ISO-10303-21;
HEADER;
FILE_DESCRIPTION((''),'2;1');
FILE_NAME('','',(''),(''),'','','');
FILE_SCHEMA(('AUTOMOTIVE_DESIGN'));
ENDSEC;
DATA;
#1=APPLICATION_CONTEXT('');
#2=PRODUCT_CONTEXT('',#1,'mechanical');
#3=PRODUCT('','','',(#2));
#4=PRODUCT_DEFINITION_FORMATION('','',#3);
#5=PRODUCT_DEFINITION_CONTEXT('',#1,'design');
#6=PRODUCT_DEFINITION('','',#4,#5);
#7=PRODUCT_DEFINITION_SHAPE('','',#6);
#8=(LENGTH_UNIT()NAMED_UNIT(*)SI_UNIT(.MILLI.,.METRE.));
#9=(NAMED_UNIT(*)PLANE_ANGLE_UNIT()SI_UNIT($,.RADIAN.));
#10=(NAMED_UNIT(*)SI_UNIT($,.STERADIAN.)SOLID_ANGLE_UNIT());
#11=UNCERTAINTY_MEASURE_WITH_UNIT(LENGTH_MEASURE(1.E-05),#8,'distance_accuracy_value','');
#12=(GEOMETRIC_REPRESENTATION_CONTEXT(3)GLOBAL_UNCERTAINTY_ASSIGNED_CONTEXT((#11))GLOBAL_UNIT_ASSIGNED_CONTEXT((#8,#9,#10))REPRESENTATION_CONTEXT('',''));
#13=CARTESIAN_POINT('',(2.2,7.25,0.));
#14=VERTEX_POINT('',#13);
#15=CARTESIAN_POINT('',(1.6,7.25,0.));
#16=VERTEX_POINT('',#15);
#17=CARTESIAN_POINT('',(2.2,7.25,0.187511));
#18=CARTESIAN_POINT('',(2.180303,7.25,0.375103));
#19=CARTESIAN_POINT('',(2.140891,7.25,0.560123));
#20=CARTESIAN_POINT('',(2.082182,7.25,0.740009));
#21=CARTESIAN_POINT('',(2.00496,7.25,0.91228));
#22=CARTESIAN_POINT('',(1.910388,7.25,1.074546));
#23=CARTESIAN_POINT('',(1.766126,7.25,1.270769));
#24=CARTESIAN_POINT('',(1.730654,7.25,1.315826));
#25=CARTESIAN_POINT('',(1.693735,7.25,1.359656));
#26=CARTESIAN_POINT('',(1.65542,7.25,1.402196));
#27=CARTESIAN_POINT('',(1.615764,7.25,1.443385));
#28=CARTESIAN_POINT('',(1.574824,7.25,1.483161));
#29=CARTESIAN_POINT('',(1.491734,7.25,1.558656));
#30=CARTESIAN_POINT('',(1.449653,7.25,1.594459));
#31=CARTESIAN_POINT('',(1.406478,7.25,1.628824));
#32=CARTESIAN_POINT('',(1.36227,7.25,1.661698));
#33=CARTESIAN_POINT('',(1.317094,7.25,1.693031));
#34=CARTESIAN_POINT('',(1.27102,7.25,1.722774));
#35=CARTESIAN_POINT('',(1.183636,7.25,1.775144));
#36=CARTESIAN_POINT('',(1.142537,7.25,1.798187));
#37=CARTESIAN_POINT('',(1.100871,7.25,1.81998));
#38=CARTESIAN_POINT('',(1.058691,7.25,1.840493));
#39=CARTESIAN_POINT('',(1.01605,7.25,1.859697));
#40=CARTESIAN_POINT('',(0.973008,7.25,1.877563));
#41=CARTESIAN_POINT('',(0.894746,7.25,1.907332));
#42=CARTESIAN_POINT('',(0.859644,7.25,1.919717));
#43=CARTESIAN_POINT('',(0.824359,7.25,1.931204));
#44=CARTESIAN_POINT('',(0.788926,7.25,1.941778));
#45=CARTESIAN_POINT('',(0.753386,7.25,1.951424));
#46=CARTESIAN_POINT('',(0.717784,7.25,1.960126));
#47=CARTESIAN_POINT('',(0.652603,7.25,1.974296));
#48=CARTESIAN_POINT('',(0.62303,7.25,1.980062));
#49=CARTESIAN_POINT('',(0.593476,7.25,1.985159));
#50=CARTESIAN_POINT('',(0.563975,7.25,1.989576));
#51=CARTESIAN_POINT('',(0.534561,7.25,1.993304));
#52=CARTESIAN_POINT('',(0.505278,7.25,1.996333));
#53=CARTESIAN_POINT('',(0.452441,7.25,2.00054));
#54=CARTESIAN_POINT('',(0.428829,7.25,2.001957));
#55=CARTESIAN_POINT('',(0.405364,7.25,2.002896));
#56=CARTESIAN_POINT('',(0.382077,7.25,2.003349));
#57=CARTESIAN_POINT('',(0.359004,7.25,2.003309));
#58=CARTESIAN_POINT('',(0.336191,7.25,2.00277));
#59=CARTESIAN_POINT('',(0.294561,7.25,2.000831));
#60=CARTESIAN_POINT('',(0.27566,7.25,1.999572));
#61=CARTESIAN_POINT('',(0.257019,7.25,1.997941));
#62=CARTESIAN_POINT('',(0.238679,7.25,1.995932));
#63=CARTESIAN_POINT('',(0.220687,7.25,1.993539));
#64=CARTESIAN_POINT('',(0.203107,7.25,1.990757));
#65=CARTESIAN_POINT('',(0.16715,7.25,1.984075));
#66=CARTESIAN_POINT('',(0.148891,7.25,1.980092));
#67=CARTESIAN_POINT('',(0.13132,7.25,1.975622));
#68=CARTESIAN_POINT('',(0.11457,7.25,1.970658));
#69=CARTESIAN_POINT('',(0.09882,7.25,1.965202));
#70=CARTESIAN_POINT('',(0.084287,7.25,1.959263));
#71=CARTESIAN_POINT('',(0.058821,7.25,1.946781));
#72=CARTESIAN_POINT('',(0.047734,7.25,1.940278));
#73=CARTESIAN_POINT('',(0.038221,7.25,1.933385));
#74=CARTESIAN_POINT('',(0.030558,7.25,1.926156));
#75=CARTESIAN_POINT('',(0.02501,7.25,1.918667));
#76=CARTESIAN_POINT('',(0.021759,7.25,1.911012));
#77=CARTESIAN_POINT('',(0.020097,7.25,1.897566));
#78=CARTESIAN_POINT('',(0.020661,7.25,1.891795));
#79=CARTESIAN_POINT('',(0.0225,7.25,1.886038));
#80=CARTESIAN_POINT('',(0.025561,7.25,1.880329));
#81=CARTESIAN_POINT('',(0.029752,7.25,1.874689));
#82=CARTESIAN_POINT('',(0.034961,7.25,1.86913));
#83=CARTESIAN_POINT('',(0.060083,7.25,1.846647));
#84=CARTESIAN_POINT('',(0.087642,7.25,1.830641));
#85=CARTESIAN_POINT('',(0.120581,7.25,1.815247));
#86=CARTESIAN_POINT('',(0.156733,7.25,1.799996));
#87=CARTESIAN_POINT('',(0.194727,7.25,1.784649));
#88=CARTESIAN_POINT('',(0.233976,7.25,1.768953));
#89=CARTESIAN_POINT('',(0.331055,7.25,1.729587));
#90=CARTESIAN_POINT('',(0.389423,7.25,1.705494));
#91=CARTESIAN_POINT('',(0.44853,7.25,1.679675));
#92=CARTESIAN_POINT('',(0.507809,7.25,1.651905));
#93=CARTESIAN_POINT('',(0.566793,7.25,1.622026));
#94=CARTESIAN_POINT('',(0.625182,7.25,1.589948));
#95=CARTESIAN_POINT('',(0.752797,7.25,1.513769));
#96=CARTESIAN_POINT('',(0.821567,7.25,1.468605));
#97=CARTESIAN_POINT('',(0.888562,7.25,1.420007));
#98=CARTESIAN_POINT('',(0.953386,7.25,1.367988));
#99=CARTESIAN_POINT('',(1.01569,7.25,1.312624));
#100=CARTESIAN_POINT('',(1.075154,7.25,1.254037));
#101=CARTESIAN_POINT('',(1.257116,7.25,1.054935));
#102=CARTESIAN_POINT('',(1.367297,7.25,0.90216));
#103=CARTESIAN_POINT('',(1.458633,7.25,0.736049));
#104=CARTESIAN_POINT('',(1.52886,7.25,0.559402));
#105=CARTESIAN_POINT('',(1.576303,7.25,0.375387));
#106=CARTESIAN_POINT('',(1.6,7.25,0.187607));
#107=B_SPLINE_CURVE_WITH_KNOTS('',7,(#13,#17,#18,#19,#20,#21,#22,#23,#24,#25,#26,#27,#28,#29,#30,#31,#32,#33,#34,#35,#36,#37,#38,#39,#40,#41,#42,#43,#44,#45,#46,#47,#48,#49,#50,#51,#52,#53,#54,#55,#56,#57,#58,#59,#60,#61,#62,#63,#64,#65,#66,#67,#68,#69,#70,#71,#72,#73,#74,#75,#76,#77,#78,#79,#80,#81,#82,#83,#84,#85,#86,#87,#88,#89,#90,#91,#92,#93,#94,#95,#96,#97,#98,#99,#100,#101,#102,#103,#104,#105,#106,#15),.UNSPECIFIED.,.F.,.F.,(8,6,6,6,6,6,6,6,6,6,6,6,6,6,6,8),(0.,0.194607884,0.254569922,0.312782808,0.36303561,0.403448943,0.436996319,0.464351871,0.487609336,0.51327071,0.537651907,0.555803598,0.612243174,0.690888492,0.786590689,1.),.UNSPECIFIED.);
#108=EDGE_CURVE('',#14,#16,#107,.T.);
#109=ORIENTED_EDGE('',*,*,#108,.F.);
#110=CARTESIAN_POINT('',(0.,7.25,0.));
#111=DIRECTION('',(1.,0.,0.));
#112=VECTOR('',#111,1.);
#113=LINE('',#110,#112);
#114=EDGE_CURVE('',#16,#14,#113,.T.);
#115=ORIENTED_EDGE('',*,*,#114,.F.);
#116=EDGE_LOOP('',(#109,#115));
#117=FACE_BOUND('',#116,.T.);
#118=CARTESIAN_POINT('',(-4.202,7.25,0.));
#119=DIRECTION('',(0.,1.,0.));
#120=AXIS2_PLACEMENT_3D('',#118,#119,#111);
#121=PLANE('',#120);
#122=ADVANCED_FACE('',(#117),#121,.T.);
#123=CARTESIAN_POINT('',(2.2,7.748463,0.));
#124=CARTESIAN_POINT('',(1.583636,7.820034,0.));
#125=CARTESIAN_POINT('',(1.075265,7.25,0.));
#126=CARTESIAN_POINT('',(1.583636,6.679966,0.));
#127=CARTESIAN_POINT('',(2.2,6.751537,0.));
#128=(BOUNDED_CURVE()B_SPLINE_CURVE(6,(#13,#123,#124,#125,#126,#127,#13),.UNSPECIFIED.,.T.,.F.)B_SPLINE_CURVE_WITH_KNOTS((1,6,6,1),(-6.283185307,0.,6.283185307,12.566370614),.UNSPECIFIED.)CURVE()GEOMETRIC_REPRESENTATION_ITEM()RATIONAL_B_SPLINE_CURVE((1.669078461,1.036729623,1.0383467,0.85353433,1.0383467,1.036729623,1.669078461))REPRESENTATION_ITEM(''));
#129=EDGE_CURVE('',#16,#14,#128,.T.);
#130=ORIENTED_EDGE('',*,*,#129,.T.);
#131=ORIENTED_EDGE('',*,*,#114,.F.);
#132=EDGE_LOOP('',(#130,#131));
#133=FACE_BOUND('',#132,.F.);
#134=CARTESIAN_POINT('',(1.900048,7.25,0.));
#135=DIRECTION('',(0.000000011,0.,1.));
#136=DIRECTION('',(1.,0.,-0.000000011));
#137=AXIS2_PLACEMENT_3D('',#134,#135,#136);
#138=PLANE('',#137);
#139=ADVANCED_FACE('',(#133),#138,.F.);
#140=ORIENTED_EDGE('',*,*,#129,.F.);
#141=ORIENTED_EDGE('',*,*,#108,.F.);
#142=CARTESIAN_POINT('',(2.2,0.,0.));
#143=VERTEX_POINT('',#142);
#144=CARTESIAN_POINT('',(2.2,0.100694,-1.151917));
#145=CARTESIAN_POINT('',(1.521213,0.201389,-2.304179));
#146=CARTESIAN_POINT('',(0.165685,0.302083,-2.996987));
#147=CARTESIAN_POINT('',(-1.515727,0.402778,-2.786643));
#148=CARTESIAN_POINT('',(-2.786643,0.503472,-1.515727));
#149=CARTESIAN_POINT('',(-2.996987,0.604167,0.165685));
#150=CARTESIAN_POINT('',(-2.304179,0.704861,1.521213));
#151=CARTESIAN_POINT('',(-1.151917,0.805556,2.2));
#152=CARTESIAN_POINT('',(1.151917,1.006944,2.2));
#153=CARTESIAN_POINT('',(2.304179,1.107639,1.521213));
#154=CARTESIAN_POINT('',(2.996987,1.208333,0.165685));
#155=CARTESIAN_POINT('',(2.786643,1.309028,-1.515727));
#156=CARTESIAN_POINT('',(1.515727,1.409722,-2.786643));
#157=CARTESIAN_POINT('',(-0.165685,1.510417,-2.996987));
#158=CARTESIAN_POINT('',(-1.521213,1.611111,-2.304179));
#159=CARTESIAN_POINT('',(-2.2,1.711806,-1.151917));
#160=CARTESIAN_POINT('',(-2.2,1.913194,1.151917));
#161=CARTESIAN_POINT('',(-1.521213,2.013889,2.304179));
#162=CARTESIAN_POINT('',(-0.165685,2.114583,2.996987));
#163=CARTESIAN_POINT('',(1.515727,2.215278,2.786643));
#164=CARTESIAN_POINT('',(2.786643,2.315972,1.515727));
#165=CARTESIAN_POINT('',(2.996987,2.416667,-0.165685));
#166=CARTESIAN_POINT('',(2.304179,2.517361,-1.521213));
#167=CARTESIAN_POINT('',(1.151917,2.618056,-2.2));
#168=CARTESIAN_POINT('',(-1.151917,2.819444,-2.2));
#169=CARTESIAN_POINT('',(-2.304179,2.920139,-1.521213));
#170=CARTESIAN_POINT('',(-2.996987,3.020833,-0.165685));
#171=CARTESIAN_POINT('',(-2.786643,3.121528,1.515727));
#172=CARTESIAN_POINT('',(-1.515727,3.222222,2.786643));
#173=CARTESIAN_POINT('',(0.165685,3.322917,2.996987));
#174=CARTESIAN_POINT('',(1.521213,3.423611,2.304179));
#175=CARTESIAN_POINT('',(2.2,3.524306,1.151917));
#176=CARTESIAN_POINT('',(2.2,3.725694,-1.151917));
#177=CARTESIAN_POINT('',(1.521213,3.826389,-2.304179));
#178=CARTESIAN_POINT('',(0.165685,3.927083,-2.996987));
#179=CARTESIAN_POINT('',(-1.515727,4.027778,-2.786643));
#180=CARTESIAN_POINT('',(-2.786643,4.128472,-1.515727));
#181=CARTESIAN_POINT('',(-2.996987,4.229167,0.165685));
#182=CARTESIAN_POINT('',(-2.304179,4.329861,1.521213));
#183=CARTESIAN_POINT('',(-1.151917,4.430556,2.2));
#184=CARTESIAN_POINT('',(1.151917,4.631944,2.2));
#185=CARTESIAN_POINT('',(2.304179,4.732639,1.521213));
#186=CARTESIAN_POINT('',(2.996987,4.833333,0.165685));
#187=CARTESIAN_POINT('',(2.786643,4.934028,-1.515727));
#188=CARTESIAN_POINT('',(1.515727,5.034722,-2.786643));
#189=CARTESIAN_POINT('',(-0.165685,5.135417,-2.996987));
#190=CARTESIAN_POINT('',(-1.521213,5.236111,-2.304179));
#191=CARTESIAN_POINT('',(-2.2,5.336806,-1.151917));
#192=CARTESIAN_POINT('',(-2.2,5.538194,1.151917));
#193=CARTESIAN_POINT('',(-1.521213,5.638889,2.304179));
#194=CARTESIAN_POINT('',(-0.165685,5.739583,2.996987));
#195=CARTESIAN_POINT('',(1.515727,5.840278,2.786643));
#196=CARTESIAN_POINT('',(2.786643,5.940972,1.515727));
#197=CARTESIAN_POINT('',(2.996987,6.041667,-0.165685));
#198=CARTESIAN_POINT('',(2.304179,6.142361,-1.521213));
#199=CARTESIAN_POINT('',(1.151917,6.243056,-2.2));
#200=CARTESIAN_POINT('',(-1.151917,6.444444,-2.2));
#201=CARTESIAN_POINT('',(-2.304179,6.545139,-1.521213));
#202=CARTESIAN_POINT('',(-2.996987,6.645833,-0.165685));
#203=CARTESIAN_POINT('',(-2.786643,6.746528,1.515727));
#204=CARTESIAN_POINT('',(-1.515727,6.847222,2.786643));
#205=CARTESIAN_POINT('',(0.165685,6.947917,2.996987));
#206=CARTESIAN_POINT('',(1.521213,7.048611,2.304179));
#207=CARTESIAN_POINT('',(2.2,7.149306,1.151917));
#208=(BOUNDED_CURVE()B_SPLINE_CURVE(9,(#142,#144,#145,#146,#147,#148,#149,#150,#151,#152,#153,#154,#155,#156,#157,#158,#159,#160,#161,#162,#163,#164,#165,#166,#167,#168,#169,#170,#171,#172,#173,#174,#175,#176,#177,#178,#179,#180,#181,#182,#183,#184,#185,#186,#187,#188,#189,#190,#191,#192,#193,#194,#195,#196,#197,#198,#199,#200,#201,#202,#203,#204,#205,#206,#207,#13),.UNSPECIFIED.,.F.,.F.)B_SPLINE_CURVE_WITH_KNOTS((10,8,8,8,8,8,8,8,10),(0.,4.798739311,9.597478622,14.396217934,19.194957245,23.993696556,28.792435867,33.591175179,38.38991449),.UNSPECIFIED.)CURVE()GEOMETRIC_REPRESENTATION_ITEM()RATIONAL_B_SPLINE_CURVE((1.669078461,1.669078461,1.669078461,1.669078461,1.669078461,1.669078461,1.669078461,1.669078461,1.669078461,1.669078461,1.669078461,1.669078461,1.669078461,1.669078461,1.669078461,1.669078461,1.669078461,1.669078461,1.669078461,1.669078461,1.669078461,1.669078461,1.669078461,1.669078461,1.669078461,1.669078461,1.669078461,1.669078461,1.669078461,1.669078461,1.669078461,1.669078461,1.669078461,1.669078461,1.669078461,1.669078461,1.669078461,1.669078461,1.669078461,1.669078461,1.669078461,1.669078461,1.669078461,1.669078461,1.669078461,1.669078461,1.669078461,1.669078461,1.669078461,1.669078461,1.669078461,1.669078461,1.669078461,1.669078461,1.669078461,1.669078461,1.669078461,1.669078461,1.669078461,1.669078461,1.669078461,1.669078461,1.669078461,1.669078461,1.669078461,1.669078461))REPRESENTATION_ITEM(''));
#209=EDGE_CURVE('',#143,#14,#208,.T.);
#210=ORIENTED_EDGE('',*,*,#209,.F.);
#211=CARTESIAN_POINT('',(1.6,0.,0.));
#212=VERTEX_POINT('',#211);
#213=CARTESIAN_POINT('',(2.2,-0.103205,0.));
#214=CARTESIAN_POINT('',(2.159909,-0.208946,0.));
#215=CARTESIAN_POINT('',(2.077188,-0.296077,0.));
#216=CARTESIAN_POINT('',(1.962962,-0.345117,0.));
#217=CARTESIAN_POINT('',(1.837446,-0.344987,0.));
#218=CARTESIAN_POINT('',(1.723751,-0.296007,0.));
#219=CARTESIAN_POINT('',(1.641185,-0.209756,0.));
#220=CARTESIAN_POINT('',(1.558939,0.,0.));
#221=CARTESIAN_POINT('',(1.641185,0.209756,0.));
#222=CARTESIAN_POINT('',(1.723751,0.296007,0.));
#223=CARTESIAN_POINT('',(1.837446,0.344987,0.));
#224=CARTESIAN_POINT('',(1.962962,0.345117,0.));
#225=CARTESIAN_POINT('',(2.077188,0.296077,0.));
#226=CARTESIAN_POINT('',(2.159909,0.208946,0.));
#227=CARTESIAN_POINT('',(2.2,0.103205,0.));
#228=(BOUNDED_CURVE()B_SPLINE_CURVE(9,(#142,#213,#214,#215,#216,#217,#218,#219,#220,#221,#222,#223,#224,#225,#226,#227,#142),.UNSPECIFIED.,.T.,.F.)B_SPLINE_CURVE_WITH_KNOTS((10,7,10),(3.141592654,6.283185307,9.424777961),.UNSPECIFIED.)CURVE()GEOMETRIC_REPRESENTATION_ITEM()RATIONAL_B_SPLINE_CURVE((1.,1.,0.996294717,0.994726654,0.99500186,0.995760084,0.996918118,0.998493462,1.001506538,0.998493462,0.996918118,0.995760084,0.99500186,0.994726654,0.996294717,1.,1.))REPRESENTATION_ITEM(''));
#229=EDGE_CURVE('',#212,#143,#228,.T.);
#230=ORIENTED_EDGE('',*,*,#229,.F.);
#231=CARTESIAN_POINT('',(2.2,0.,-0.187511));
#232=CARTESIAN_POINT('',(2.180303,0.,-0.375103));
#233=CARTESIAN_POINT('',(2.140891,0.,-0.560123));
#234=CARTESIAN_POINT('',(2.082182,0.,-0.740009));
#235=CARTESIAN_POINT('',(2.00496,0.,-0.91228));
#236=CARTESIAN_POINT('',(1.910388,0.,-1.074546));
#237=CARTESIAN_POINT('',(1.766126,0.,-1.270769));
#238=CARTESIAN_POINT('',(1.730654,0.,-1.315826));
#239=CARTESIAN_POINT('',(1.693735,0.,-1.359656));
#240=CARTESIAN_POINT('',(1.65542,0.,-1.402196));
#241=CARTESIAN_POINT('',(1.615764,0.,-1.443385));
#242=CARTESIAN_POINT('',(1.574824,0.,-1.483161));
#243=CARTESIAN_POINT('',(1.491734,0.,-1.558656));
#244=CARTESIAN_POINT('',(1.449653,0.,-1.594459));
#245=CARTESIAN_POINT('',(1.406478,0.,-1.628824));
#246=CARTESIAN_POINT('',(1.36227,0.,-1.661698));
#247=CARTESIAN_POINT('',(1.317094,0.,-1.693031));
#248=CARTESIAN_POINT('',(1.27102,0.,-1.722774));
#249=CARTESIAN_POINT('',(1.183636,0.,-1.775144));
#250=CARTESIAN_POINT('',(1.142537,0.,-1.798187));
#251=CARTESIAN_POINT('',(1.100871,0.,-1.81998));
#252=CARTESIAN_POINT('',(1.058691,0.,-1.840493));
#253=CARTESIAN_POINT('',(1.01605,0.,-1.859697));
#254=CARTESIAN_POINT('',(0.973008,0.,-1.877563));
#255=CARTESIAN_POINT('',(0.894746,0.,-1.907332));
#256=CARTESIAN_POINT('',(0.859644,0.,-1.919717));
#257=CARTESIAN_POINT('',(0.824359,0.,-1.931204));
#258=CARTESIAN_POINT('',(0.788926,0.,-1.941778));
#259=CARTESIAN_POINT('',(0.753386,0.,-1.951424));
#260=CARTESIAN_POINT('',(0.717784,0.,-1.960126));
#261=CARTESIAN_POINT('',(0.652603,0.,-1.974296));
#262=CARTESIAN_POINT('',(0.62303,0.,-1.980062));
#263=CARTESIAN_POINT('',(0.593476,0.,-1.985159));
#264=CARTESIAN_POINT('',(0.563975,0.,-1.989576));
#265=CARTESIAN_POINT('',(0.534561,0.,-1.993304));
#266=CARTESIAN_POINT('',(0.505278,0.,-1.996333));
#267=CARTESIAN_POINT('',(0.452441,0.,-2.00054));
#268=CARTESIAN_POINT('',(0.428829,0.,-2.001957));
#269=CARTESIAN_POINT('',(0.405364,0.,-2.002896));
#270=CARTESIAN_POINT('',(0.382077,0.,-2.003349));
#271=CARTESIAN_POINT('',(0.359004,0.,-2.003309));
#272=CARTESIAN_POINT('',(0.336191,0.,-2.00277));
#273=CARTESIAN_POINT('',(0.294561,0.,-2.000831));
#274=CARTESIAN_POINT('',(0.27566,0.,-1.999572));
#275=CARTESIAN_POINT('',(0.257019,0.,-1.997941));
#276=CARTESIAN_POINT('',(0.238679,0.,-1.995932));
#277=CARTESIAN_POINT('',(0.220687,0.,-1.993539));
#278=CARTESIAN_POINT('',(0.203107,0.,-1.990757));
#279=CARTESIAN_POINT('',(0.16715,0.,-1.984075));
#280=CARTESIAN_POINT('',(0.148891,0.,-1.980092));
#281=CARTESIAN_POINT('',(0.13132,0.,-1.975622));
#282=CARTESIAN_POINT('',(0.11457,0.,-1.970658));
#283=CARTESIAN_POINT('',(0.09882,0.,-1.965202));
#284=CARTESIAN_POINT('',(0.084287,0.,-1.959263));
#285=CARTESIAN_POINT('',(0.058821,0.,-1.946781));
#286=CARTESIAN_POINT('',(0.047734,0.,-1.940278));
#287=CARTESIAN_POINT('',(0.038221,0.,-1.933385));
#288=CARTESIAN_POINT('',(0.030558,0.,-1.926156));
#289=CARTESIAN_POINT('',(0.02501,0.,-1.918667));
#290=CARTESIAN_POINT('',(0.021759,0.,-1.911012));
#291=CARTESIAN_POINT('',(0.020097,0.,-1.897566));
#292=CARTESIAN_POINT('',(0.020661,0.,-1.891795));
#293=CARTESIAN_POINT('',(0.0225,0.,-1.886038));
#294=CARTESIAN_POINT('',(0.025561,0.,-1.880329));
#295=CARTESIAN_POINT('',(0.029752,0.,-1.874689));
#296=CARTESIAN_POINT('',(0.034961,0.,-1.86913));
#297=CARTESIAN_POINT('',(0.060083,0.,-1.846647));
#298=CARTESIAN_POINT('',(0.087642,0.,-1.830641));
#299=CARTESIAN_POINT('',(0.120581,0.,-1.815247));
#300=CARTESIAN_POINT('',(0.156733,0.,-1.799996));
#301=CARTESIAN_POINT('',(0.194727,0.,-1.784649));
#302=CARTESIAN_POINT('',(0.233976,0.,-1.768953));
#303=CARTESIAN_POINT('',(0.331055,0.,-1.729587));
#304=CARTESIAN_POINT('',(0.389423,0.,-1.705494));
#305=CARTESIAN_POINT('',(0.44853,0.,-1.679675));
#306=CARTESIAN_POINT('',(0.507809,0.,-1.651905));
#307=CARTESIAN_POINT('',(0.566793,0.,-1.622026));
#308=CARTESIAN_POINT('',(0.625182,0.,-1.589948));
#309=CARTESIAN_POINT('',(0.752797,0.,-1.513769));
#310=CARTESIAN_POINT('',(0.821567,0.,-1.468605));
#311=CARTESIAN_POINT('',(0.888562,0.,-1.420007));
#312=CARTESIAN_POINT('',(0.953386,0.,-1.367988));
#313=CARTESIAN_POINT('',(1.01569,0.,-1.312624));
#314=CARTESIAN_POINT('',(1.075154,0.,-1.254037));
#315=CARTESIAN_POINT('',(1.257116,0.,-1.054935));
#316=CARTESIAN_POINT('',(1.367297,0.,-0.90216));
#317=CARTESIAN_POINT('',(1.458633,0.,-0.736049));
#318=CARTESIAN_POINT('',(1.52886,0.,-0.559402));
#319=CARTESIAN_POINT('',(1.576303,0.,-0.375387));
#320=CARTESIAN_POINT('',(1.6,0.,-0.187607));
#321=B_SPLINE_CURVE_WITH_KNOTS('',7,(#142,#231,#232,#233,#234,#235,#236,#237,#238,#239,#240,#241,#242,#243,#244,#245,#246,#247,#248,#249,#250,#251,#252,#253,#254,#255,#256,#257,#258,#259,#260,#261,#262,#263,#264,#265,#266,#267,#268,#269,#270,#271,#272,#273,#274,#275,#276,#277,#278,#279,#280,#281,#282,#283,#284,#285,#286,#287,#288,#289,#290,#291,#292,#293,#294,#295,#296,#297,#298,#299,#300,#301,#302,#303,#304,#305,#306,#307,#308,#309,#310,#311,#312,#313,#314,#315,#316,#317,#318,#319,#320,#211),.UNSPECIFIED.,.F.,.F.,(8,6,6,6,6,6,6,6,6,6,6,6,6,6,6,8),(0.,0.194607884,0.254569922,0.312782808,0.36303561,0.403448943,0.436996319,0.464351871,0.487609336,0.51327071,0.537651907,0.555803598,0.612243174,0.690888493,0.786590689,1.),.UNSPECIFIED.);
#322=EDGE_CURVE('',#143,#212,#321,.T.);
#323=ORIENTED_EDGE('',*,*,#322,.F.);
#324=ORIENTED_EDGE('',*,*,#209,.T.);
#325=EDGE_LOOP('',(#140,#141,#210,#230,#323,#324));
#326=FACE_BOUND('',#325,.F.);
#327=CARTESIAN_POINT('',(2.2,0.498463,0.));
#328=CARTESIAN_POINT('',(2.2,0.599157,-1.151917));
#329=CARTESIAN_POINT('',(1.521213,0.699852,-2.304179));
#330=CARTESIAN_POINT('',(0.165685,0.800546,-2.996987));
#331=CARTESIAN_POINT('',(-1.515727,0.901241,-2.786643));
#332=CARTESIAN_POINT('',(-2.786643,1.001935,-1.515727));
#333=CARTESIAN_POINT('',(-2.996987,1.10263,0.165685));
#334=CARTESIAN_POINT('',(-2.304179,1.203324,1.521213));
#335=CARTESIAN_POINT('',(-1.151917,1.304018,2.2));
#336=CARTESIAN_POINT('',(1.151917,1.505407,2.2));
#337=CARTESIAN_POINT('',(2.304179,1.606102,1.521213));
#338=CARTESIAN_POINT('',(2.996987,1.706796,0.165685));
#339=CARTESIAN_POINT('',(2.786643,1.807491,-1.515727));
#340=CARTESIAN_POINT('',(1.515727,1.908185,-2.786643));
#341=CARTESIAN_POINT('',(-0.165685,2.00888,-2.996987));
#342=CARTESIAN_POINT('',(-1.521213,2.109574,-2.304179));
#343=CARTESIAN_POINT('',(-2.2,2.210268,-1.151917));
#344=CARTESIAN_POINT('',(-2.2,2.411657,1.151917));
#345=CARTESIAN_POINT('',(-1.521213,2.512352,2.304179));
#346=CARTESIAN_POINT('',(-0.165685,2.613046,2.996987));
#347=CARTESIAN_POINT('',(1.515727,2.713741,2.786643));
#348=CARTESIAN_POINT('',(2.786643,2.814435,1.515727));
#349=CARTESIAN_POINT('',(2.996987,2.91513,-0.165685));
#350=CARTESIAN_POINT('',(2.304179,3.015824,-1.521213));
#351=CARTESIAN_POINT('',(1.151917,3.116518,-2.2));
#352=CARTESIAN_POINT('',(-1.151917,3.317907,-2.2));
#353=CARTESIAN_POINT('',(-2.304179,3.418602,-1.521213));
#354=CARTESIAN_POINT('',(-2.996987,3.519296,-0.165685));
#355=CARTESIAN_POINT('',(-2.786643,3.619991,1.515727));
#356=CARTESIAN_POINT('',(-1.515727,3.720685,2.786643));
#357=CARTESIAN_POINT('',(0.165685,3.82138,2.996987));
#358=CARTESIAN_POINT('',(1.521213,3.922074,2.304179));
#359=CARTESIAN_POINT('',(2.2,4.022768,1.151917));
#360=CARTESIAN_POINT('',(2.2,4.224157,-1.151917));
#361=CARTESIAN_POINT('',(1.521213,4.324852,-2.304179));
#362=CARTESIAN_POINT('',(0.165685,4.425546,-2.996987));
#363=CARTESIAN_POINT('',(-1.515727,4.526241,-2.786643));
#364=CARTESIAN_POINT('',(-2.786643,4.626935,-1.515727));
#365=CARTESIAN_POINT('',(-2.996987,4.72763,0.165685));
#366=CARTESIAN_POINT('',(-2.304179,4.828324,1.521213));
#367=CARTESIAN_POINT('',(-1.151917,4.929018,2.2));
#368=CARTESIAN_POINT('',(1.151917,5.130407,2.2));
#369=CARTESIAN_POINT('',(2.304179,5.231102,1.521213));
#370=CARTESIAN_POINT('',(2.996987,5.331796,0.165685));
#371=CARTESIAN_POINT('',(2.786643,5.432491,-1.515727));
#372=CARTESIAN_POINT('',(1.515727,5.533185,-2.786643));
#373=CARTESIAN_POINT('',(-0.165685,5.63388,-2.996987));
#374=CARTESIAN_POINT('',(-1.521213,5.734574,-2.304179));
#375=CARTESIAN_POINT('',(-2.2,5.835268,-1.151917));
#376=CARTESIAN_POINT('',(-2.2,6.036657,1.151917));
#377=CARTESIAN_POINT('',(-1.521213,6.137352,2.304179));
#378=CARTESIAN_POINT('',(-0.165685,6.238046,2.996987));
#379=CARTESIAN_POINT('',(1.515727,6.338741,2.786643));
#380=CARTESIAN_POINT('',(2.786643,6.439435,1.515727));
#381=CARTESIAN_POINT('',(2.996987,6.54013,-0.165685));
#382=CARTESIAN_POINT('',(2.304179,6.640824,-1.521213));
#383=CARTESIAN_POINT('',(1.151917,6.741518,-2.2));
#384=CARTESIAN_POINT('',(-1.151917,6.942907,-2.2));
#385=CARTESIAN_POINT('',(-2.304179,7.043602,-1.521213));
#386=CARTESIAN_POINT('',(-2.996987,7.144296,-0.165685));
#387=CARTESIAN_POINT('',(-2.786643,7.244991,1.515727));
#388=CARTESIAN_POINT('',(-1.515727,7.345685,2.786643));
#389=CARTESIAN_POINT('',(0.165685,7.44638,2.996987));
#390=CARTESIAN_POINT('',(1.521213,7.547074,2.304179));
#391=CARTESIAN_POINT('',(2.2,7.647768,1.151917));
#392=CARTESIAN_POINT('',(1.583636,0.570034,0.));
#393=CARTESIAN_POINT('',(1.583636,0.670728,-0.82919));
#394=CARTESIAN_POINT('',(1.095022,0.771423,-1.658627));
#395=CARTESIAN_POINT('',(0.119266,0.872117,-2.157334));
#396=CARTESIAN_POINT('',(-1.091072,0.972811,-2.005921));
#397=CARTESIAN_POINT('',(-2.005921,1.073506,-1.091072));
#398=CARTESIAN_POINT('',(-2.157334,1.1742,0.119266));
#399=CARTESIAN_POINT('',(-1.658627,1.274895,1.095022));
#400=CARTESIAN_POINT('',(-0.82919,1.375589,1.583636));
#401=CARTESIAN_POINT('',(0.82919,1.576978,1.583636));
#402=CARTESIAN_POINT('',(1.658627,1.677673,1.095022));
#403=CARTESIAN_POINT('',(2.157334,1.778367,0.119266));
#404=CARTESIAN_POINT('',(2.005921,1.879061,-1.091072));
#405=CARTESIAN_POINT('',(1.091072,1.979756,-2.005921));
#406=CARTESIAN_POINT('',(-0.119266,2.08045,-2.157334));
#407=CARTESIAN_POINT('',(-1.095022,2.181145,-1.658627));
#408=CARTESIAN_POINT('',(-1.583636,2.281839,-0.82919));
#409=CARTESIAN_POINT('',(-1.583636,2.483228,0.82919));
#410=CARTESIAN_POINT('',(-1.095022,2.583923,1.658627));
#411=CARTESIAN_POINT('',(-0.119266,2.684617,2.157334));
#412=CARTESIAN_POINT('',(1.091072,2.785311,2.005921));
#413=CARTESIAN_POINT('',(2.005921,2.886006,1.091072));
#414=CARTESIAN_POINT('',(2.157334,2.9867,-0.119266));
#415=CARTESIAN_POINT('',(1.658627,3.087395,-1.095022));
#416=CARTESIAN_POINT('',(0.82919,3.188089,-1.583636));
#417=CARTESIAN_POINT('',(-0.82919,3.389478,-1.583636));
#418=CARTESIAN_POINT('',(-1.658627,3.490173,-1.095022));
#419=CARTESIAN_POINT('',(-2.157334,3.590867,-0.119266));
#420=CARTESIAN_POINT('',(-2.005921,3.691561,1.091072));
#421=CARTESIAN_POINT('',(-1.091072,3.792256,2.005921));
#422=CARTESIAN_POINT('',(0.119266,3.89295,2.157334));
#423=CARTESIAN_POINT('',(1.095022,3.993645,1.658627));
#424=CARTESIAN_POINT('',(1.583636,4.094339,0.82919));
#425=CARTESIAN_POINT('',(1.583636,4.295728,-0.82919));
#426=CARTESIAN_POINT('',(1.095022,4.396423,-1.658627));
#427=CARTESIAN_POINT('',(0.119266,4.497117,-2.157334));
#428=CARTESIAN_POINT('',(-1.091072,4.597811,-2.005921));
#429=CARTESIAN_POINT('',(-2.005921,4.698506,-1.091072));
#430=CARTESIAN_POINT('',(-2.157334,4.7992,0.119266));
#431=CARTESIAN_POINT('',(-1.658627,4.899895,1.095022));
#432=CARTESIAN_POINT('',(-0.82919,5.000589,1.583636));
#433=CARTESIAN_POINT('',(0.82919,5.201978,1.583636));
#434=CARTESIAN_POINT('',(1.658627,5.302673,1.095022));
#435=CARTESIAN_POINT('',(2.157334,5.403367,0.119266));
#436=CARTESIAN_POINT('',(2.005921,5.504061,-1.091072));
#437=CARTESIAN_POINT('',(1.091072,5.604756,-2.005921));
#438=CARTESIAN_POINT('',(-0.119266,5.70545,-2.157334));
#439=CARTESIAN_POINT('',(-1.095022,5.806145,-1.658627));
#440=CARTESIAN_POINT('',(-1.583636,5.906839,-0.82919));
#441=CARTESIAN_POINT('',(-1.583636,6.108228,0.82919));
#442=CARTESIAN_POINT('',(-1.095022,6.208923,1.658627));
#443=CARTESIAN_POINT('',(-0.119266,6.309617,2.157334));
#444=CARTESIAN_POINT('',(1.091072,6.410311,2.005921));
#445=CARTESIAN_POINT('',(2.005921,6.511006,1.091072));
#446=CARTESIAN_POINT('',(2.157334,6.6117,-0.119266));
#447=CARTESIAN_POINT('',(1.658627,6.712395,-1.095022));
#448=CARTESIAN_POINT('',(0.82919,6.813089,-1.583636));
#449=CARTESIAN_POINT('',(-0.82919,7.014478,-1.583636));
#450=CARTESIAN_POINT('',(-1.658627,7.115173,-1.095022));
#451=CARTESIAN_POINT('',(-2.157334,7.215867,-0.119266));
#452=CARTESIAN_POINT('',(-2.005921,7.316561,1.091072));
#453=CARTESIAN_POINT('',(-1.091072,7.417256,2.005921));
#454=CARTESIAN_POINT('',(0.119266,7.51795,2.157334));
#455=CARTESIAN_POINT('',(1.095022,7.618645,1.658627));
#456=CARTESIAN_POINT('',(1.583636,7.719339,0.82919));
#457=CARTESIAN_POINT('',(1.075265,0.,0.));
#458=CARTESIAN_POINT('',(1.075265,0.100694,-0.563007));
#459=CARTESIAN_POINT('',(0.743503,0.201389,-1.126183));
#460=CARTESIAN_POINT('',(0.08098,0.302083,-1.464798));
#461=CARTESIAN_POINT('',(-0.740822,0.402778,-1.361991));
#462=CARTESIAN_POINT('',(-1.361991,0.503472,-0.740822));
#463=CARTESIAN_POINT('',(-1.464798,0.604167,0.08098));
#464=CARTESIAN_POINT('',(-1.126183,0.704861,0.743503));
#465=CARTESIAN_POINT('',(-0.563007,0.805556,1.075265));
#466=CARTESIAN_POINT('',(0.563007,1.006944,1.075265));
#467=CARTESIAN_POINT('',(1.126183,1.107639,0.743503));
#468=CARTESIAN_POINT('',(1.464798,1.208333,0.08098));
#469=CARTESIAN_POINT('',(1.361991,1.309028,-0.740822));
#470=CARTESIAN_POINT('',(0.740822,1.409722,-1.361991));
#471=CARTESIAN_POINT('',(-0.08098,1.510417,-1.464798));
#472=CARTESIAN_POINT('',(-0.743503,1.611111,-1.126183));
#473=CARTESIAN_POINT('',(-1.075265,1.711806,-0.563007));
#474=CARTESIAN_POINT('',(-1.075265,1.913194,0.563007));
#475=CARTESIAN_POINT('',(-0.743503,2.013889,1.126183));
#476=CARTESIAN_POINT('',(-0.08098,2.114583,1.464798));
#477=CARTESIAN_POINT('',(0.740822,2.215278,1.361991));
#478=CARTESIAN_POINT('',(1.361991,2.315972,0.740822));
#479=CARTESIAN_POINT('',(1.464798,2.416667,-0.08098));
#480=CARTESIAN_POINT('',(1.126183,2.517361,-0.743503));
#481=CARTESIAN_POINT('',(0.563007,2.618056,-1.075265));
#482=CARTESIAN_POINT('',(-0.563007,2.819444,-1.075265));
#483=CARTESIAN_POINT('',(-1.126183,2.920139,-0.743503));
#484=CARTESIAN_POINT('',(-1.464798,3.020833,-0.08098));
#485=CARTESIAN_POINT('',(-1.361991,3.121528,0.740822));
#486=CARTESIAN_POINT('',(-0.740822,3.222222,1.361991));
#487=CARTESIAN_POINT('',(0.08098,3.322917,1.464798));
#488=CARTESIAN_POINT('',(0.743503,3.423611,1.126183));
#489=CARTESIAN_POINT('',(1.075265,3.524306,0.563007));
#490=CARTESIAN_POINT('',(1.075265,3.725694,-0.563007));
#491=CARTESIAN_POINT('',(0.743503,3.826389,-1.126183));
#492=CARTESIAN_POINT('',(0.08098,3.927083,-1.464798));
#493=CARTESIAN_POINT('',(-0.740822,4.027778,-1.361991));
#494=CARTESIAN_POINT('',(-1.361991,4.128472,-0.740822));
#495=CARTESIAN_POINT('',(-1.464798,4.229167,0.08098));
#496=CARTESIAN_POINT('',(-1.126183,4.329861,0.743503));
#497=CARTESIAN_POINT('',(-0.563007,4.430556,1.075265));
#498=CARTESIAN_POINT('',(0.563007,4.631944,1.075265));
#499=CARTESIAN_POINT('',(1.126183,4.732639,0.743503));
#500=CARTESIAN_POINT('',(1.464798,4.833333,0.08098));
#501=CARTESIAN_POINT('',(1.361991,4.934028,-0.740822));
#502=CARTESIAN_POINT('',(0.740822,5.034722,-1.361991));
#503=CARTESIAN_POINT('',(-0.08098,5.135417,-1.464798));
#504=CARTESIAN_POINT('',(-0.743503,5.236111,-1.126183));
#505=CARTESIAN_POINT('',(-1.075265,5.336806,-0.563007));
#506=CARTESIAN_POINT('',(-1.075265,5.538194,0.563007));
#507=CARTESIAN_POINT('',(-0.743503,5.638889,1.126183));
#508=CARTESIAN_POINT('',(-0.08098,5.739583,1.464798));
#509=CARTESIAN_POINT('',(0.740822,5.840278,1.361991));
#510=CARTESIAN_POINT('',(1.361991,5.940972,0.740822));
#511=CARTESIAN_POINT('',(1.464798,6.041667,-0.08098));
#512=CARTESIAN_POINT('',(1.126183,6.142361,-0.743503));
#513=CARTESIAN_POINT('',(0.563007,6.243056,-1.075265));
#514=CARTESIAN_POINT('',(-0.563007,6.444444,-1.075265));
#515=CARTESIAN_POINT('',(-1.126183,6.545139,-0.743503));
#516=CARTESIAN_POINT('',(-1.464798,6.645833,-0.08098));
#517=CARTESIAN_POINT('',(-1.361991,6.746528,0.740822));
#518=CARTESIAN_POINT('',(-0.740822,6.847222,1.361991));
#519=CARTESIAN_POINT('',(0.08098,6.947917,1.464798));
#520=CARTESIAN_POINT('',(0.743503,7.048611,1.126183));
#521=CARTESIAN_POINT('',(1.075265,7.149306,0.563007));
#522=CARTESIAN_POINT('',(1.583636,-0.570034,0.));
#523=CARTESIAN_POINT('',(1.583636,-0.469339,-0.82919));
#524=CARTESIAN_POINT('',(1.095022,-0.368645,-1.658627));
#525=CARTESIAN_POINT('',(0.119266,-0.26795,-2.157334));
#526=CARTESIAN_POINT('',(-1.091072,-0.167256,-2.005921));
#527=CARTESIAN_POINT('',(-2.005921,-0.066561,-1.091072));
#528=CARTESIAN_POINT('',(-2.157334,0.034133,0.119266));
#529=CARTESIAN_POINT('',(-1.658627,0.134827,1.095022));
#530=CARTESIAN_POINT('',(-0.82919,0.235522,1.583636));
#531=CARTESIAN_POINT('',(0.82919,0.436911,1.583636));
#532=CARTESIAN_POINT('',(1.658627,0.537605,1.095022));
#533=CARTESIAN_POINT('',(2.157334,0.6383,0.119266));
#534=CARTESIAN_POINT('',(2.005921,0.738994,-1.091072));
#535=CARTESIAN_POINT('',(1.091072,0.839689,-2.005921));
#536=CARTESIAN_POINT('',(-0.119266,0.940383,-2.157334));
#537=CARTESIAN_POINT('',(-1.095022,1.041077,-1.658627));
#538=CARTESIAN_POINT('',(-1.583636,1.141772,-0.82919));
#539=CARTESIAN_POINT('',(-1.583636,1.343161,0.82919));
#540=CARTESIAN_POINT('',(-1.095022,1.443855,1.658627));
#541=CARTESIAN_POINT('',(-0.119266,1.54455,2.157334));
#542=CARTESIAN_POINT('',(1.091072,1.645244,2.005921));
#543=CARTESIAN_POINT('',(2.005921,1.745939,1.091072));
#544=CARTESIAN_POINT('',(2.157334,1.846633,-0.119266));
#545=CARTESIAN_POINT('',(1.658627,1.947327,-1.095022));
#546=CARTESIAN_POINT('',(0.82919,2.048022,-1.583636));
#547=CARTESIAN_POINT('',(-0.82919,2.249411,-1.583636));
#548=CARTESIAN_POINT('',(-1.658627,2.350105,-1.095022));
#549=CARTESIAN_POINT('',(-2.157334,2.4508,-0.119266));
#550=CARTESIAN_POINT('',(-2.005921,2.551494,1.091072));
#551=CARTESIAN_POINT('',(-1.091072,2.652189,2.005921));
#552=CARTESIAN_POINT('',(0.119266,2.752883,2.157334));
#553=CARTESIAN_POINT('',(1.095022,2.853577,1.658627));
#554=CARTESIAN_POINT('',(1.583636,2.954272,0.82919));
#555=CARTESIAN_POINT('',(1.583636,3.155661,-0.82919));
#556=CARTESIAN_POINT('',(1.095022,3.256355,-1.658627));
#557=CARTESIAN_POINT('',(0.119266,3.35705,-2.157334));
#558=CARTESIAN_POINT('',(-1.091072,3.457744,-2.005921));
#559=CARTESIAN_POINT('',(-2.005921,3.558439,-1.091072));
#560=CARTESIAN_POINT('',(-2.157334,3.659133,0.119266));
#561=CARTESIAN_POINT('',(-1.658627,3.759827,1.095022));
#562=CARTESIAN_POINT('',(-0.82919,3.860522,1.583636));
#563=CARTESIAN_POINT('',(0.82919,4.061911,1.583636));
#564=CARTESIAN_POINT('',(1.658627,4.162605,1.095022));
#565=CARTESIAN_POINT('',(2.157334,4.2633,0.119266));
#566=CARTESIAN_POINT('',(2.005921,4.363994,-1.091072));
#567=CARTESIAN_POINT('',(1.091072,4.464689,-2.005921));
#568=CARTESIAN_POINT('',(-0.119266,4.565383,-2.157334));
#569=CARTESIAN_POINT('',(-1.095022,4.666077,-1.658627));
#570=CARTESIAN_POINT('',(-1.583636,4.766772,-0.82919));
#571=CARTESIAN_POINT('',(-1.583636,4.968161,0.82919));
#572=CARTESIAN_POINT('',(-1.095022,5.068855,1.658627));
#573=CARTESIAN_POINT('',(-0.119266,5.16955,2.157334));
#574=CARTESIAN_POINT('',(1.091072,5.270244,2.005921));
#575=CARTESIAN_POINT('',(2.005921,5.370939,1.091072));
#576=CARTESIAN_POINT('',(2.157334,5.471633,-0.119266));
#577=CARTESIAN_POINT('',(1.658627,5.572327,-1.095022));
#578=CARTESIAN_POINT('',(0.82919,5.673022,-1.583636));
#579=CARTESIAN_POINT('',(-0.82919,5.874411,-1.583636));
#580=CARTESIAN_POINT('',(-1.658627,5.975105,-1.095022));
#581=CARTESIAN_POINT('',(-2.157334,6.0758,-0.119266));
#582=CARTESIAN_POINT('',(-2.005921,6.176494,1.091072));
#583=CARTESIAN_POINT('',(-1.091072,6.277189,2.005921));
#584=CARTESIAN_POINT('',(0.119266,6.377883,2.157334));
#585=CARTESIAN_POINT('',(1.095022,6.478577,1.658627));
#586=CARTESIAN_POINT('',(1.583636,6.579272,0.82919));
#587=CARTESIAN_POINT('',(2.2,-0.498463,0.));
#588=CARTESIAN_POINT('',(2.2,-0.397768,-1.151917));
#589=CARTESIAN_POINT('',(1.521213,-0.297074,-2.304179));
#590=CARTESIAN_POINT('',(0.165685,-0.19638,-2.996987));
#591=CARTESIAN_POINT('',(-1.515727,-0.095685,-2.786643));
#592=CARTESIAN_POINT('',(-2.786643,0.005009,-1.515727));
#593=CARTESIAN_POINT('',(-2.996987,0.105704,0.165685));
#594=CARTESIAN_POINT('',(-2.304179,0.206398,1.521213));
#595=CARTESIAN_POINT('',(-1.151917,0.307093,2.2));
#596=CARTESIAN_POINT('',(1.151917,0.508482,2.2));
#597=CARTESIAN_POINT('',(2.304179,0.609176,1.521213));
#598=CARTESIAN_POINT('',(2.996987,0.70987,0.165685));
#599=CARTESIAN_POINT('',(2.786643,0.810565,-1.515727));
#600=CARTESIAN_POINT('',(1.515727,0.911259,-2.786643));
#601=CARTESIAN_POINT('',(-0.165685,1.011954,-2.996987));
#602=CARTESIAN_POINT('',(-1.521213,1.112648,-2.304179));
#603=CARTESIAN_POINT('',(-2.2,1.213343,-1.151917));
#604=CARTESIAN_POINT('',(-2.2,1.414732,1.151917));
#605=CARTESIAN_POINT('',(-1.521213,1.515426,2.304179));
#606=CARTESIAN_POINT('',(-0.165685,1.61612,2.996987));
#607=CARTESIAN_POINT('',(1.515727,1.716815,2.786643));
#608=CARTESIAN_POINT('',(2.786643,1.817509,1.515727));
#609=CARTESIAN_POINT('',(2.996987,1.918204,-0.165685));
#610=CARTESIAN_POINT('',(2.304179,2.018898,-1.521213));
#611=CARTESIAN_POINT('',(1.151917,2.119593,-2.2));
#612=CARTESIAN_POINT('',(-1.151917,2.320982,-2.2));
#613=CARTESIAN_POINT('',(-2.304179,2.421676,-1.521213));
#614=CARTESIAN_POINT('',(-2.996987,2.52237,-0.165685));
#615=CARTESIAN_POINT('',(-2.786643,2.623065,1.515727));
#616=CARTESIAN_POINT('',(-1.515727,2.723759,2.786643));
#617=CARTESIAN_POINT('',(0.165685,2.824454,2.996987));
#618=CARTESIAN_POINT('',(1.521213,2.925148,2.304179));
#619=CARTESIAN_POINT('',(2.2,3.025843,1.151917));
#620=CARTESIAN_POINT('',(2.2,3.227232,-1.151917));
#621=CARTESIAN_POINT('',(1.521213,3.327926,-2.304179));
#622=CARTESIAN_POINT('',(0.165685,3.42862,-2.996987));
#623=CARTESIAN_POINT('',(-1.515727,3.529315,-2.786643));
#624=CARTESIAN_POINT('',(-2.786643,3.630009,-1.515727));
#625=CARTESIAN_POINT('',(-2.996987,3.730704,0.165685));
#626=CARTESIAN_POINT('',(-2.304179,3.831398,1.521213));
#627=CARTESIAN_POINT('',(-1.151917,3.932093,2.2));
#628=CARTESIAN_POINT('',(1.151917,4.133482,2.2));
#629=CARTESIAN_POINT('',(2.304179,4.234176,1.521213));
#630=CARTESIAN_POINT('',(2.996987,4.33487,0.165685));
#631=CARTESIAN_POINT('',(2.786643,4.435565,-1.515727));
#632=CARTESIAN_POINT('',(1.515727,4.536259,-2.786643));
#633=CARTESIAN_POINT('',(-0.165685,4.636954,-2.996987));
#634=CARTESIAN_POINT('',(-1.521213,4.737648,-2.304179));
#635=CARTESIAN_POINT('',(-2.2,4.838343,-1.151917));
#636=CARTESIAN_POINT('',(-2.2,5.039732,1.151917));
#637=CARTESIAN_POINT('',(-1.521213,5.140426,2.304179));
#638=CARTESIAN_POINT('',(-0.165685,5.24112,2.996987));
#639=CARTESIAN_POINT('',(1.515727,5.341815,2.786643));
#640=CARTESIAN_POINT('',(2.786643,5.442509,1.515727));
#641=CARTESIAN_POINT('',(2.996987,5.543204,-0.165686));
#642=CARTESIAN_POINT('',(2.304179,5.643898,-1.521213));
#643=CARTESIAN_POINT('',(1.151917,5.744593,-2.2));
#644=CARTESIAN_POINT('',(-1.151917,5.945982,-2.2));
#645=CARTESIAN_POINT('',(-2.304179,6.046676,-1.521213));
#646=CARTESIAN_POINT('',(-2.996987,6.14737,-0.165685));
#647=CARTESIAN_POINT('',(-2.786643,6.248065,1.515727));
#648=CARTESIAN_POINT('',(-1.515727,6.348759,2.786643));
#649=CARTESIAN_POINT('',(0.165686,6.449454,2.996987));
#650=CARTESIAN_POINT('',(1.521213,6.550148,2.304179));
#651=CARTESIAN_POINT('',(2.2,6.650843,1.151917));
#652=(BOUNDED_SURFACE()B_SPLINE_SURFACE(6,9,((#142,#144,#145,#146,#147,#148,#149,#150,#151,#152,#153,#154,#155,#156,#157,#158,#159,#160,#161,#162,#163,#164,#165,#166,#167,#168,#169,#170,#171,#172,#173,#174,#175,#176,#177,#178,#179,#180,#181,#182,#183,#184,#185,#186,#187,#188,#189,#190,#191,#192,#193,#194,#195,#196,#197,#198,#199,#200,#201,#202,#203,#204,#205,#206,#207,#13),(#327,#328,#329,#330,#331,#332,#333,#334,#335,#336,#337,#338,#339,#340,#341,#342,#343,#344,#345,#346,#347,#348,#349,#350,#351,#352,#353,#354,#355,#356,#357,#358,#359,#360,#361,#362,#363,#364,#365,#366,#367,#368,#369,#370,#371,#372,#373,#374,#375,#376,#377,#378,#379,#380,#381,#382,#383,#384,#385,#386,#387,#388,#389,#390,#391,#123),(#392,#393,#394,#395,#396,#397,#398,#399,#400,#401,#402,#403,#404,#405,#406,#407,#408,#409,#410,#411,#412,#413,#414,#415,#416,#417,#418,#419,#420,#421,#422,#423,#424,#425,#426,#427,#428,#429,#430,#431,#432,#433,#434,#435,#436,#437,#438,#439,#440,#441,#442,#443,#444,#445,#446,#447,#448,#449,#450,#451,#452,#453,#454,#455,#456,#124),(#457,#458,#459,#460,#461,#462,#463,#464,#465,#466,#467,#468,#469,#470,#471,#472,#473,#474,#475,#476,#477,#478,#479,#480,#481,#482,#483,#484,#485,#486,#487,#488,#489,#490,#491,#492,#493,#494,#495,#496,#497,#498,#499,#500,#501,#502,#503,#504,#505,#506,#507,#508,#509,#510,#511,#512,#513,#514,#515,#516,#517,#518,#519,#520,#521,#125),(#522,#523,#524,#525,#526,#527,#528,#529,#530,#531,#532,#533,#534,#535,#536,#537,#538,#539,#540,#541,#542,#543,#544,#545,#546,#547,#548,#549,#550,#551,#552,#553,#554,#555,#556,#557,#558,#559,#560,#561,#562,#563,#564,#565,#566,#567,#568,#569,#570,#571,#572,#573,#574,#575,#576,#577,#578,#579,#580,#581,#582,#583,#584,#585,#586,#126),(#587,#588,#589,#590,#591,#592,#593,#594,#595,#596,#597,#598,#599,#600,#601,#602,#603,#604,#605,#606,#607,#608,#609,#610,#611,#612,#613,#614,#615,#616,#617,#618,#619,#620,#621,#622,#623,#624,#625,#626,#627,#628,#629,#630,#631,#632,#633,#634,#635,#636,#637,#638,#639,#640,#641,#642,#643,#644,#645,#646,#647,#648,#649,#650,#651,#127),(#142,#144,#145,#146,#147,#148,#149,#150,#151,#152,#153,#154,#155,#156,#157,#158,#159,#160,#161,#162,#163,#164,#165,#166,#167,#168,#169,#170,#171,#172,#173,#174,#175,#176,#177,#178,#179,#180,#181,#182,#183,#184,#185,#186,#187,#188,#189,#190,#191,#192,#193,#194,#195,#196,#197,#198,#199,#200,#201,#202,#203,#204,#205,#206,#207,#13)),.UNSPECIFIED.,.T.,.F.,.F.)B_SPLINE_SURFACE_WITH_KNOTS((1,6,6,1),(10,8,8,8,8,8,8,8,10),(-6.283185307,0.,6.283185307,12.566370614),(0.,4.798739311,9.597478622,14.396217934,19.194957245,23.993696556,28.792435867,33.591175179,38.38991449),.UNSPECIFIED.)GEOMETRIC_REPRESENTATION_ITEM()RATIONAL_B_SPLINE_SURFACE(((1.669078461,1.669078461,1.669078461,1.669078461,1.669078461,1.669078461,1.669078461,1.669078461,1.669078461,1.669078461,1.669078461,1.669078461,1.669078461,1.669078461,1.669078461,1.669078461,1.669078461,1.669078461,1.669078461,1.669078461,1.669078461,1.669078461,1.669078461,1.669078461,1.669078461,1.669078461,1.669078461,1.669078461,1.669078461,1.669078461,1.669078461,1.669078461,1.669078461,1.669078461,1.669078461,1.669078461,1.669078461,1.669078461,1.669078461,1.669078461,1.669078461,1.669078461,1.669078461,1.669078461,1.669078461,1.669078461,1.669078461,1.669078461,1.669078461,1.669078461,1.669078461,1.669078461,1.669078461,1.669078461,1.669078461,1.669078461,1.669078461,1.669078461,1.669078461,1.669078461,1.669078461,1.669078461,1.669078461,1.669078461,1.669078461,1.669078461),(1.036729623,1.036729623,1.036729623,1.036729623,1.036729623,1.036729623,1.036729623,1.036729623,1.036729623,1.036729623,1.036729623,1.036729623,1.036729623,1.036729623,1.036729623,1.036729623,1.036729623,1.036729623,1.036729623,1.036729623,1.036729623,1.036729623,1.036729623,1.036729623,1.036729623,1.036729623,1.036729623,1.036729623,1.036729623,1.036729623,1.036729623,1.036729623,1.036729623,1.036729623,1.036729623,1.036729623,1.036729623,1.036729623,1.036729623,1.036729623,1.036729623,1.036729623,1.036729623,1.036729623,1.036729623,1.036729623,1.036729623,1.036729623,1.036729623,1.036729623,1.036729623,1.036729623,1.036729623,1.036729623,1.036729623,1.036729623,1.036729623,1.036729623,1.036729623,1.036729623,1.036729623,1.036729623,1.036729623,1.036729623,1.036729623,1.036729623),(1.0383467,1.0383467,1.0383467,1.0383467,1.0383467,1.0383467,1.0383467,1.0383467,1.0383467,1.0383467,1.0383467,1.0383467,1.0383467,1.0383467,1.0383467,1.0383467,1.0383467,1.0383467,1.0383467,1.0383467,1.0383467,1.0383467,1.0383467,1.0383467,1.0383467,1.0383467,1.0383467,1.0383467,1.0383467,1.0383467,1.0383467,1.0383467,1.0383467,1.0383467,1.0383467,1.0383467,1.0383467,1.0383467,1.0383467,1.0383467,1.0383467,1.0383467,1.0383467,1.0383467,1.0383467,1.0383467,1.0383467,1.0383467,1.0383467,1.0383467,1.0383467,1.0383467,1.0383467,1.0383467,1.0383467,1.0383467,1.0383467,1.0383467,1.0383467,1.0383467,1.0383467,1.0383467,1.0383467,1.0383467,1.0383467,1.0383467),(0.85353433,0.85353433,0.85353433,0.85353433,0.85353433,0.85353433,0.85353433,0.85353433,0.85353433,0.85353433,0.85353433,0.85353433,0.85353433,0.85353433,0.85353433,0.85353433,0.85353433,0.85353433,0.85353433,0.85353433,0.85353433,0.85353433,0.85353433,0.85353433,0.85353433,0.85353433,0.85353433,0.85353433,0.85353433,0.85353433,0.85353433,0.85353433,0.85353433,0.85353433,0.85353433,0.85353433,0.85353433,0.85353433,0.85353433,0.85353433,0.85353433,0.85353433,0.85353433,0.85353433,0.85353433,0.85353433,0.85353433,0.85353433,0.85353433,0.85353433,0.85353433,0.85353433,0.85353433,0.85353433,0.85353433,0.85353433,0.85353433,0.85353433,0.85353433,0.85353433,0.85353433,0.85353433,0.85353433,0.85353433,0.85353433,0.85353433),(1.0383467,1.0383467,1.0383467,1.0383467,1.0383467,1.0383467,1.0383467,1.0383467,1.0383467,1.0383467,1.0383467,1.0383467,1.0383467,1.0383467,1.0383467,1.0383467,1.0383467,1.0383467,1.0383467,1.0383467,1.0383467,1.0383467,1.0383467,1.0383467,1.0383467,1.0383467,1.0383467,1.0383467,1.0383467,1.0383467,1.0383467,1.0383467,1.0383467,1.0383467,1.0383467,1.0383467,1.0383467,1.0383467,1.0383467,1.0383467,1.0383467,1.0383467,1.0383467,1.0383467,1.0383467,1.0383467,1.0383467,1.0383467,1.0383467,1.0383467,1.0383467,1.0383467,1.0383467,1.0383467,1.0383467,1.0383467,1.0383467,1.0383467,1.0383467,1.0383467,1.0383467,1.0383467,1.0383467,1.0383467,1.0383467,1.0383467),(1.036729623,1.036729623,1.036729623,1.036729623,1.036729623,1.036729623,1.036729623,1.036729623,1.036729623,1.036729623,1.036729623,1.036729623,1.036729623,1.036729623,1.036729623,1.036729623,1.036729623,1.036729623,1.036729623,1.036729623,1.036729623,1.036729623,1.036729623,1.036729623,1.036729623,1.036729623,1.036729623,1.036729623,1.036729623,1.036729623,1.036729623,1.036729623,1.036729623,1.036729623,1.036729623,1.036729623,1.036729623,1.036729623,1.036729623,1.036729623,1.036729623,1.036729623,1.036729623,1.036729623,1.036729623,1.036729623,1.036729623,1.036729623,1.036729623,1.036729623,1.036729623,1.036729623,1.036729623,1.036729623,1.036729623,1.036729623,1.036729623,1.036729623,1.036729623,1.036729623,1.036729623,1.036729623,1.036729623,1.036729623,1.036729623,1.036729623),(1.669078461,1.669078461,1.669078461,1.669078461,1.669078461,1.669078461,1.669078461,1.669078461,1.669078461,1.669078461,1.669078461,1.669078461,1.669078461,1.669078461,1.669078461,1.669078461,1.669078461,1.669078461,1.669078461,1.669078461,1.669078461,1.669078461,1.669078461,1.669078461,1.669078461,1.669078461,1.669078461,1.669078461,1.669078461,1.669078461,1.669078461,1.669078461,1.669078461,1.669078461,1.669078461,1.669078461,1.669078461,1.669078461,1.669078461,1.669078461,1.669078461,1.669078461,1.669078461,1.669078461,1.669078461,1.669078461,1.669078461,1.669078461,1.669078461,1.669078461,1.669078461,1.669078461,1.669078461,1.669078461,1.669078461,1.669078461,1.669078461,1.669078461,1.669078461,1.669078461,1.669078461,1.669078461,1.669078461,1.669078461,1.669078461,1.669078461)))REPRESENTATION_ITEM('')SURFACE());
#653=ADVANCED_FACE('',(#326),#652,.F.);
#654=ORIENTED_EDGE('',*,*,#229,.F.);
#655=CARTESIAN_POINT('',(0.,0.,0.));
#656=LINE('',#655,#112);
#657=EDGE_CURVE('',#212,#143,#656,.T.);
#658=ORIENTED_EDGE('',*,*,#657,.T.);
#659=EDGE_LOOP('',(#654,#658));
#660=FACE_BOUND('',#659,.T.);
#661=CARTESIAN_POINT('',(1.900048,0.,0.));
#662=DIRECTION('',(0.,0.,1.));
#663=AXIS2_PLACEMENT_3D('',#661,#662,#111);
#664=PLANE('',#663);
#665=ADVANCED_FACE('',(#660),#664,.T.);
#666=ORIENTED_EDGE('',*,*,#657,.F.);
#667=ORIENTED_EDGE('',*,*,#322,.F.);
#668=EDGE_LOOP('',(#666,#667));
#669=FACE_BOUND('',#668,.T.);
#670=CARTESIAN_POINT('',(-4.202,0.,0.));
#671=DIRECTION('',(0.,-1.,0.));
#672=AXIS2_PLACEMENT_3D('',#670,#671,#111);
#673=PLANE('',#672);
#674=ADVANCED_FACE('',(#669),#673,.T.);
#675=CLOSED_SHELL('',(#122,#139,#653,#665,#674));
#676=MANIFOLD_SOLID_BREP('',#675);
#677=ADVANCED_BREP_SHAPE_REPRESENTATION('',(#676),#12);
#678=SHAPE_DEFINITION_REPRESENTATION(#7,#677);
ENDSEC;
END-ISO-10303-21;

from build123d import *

# Parameters (mm, degrees)
SWEEP_1_PITCH            = 1.208333333
SWEEP_1_HEIGHT           = 7.25
SWEEP_1_RADIUS           = 1.9
SWEEP_1_START_ANGLE      = 90
SKETCH_2_R               = 0.3
SKETCH_3_OUTSIDE_W       = 8.404
SKETCH_3_OUTSIDE_H       = 11.854
SKETCH_3_OUTSIDE_W_2     = 34.401094542
SKETCH_3_OUTSIDE_H_2     = 7.25
CUT_EXTRUDE_1_DEPTH      = 3.200006707
CUT_EXTRUDE_1_DEPTH_BACK = 3.200006707


with BuildPart() as part:
    # По траектории1: sweep along a helix
    with BuildLine() as sweep_1_path:
        add(Helix(SWEEP_1_PITCH, SWEEP_1_HEIGHT, SWEEP_1_RADIUS, center=(0, 0, 0), direction=(0, 1, 0), mode=Mode.PRIVATE).rotate(Axis((0, 0, 0), (0, 1, 0)), SWEEP_1_START_ANGLE))
    # Эскиз2 → По траектории1 (sweep)
    with BuildSketch(Plane.XY):
        with Locations((1.9, 0)):
            Circle(SKETCH_2_R)
    sweep(path=sweep_1_path.line, is_frenet=True)

    # Эскиз3 outside → Вырез-Вытянуть1 (cut, two sides)
    with BuildSketch(Plane.XY) as cut_extrude_1_sk:
        with Locations((0, 3.625)):
            Rectangle(SKETCH_3_OUTSIDE_W, SKETCH_3_OUTSIDE_H)
        with Locations((0, 3.625)):
            Rectangle(SKETCH_3_OUTSIDE_W_2, SKETCH_3_OUTSIDE_H_2, mode=Mode.SUBTRACT)
    extrude(amount=CUT_EXTRUDE_1_DEPTH, mode=Mode.SUBTRACT)
    extrude(cut_extrude_1_sk.sketch, amount=-CUT_EXTRUDE_1_DEPTH_BACK, mode=Mode.SUBTRACT)


solid = part.part
